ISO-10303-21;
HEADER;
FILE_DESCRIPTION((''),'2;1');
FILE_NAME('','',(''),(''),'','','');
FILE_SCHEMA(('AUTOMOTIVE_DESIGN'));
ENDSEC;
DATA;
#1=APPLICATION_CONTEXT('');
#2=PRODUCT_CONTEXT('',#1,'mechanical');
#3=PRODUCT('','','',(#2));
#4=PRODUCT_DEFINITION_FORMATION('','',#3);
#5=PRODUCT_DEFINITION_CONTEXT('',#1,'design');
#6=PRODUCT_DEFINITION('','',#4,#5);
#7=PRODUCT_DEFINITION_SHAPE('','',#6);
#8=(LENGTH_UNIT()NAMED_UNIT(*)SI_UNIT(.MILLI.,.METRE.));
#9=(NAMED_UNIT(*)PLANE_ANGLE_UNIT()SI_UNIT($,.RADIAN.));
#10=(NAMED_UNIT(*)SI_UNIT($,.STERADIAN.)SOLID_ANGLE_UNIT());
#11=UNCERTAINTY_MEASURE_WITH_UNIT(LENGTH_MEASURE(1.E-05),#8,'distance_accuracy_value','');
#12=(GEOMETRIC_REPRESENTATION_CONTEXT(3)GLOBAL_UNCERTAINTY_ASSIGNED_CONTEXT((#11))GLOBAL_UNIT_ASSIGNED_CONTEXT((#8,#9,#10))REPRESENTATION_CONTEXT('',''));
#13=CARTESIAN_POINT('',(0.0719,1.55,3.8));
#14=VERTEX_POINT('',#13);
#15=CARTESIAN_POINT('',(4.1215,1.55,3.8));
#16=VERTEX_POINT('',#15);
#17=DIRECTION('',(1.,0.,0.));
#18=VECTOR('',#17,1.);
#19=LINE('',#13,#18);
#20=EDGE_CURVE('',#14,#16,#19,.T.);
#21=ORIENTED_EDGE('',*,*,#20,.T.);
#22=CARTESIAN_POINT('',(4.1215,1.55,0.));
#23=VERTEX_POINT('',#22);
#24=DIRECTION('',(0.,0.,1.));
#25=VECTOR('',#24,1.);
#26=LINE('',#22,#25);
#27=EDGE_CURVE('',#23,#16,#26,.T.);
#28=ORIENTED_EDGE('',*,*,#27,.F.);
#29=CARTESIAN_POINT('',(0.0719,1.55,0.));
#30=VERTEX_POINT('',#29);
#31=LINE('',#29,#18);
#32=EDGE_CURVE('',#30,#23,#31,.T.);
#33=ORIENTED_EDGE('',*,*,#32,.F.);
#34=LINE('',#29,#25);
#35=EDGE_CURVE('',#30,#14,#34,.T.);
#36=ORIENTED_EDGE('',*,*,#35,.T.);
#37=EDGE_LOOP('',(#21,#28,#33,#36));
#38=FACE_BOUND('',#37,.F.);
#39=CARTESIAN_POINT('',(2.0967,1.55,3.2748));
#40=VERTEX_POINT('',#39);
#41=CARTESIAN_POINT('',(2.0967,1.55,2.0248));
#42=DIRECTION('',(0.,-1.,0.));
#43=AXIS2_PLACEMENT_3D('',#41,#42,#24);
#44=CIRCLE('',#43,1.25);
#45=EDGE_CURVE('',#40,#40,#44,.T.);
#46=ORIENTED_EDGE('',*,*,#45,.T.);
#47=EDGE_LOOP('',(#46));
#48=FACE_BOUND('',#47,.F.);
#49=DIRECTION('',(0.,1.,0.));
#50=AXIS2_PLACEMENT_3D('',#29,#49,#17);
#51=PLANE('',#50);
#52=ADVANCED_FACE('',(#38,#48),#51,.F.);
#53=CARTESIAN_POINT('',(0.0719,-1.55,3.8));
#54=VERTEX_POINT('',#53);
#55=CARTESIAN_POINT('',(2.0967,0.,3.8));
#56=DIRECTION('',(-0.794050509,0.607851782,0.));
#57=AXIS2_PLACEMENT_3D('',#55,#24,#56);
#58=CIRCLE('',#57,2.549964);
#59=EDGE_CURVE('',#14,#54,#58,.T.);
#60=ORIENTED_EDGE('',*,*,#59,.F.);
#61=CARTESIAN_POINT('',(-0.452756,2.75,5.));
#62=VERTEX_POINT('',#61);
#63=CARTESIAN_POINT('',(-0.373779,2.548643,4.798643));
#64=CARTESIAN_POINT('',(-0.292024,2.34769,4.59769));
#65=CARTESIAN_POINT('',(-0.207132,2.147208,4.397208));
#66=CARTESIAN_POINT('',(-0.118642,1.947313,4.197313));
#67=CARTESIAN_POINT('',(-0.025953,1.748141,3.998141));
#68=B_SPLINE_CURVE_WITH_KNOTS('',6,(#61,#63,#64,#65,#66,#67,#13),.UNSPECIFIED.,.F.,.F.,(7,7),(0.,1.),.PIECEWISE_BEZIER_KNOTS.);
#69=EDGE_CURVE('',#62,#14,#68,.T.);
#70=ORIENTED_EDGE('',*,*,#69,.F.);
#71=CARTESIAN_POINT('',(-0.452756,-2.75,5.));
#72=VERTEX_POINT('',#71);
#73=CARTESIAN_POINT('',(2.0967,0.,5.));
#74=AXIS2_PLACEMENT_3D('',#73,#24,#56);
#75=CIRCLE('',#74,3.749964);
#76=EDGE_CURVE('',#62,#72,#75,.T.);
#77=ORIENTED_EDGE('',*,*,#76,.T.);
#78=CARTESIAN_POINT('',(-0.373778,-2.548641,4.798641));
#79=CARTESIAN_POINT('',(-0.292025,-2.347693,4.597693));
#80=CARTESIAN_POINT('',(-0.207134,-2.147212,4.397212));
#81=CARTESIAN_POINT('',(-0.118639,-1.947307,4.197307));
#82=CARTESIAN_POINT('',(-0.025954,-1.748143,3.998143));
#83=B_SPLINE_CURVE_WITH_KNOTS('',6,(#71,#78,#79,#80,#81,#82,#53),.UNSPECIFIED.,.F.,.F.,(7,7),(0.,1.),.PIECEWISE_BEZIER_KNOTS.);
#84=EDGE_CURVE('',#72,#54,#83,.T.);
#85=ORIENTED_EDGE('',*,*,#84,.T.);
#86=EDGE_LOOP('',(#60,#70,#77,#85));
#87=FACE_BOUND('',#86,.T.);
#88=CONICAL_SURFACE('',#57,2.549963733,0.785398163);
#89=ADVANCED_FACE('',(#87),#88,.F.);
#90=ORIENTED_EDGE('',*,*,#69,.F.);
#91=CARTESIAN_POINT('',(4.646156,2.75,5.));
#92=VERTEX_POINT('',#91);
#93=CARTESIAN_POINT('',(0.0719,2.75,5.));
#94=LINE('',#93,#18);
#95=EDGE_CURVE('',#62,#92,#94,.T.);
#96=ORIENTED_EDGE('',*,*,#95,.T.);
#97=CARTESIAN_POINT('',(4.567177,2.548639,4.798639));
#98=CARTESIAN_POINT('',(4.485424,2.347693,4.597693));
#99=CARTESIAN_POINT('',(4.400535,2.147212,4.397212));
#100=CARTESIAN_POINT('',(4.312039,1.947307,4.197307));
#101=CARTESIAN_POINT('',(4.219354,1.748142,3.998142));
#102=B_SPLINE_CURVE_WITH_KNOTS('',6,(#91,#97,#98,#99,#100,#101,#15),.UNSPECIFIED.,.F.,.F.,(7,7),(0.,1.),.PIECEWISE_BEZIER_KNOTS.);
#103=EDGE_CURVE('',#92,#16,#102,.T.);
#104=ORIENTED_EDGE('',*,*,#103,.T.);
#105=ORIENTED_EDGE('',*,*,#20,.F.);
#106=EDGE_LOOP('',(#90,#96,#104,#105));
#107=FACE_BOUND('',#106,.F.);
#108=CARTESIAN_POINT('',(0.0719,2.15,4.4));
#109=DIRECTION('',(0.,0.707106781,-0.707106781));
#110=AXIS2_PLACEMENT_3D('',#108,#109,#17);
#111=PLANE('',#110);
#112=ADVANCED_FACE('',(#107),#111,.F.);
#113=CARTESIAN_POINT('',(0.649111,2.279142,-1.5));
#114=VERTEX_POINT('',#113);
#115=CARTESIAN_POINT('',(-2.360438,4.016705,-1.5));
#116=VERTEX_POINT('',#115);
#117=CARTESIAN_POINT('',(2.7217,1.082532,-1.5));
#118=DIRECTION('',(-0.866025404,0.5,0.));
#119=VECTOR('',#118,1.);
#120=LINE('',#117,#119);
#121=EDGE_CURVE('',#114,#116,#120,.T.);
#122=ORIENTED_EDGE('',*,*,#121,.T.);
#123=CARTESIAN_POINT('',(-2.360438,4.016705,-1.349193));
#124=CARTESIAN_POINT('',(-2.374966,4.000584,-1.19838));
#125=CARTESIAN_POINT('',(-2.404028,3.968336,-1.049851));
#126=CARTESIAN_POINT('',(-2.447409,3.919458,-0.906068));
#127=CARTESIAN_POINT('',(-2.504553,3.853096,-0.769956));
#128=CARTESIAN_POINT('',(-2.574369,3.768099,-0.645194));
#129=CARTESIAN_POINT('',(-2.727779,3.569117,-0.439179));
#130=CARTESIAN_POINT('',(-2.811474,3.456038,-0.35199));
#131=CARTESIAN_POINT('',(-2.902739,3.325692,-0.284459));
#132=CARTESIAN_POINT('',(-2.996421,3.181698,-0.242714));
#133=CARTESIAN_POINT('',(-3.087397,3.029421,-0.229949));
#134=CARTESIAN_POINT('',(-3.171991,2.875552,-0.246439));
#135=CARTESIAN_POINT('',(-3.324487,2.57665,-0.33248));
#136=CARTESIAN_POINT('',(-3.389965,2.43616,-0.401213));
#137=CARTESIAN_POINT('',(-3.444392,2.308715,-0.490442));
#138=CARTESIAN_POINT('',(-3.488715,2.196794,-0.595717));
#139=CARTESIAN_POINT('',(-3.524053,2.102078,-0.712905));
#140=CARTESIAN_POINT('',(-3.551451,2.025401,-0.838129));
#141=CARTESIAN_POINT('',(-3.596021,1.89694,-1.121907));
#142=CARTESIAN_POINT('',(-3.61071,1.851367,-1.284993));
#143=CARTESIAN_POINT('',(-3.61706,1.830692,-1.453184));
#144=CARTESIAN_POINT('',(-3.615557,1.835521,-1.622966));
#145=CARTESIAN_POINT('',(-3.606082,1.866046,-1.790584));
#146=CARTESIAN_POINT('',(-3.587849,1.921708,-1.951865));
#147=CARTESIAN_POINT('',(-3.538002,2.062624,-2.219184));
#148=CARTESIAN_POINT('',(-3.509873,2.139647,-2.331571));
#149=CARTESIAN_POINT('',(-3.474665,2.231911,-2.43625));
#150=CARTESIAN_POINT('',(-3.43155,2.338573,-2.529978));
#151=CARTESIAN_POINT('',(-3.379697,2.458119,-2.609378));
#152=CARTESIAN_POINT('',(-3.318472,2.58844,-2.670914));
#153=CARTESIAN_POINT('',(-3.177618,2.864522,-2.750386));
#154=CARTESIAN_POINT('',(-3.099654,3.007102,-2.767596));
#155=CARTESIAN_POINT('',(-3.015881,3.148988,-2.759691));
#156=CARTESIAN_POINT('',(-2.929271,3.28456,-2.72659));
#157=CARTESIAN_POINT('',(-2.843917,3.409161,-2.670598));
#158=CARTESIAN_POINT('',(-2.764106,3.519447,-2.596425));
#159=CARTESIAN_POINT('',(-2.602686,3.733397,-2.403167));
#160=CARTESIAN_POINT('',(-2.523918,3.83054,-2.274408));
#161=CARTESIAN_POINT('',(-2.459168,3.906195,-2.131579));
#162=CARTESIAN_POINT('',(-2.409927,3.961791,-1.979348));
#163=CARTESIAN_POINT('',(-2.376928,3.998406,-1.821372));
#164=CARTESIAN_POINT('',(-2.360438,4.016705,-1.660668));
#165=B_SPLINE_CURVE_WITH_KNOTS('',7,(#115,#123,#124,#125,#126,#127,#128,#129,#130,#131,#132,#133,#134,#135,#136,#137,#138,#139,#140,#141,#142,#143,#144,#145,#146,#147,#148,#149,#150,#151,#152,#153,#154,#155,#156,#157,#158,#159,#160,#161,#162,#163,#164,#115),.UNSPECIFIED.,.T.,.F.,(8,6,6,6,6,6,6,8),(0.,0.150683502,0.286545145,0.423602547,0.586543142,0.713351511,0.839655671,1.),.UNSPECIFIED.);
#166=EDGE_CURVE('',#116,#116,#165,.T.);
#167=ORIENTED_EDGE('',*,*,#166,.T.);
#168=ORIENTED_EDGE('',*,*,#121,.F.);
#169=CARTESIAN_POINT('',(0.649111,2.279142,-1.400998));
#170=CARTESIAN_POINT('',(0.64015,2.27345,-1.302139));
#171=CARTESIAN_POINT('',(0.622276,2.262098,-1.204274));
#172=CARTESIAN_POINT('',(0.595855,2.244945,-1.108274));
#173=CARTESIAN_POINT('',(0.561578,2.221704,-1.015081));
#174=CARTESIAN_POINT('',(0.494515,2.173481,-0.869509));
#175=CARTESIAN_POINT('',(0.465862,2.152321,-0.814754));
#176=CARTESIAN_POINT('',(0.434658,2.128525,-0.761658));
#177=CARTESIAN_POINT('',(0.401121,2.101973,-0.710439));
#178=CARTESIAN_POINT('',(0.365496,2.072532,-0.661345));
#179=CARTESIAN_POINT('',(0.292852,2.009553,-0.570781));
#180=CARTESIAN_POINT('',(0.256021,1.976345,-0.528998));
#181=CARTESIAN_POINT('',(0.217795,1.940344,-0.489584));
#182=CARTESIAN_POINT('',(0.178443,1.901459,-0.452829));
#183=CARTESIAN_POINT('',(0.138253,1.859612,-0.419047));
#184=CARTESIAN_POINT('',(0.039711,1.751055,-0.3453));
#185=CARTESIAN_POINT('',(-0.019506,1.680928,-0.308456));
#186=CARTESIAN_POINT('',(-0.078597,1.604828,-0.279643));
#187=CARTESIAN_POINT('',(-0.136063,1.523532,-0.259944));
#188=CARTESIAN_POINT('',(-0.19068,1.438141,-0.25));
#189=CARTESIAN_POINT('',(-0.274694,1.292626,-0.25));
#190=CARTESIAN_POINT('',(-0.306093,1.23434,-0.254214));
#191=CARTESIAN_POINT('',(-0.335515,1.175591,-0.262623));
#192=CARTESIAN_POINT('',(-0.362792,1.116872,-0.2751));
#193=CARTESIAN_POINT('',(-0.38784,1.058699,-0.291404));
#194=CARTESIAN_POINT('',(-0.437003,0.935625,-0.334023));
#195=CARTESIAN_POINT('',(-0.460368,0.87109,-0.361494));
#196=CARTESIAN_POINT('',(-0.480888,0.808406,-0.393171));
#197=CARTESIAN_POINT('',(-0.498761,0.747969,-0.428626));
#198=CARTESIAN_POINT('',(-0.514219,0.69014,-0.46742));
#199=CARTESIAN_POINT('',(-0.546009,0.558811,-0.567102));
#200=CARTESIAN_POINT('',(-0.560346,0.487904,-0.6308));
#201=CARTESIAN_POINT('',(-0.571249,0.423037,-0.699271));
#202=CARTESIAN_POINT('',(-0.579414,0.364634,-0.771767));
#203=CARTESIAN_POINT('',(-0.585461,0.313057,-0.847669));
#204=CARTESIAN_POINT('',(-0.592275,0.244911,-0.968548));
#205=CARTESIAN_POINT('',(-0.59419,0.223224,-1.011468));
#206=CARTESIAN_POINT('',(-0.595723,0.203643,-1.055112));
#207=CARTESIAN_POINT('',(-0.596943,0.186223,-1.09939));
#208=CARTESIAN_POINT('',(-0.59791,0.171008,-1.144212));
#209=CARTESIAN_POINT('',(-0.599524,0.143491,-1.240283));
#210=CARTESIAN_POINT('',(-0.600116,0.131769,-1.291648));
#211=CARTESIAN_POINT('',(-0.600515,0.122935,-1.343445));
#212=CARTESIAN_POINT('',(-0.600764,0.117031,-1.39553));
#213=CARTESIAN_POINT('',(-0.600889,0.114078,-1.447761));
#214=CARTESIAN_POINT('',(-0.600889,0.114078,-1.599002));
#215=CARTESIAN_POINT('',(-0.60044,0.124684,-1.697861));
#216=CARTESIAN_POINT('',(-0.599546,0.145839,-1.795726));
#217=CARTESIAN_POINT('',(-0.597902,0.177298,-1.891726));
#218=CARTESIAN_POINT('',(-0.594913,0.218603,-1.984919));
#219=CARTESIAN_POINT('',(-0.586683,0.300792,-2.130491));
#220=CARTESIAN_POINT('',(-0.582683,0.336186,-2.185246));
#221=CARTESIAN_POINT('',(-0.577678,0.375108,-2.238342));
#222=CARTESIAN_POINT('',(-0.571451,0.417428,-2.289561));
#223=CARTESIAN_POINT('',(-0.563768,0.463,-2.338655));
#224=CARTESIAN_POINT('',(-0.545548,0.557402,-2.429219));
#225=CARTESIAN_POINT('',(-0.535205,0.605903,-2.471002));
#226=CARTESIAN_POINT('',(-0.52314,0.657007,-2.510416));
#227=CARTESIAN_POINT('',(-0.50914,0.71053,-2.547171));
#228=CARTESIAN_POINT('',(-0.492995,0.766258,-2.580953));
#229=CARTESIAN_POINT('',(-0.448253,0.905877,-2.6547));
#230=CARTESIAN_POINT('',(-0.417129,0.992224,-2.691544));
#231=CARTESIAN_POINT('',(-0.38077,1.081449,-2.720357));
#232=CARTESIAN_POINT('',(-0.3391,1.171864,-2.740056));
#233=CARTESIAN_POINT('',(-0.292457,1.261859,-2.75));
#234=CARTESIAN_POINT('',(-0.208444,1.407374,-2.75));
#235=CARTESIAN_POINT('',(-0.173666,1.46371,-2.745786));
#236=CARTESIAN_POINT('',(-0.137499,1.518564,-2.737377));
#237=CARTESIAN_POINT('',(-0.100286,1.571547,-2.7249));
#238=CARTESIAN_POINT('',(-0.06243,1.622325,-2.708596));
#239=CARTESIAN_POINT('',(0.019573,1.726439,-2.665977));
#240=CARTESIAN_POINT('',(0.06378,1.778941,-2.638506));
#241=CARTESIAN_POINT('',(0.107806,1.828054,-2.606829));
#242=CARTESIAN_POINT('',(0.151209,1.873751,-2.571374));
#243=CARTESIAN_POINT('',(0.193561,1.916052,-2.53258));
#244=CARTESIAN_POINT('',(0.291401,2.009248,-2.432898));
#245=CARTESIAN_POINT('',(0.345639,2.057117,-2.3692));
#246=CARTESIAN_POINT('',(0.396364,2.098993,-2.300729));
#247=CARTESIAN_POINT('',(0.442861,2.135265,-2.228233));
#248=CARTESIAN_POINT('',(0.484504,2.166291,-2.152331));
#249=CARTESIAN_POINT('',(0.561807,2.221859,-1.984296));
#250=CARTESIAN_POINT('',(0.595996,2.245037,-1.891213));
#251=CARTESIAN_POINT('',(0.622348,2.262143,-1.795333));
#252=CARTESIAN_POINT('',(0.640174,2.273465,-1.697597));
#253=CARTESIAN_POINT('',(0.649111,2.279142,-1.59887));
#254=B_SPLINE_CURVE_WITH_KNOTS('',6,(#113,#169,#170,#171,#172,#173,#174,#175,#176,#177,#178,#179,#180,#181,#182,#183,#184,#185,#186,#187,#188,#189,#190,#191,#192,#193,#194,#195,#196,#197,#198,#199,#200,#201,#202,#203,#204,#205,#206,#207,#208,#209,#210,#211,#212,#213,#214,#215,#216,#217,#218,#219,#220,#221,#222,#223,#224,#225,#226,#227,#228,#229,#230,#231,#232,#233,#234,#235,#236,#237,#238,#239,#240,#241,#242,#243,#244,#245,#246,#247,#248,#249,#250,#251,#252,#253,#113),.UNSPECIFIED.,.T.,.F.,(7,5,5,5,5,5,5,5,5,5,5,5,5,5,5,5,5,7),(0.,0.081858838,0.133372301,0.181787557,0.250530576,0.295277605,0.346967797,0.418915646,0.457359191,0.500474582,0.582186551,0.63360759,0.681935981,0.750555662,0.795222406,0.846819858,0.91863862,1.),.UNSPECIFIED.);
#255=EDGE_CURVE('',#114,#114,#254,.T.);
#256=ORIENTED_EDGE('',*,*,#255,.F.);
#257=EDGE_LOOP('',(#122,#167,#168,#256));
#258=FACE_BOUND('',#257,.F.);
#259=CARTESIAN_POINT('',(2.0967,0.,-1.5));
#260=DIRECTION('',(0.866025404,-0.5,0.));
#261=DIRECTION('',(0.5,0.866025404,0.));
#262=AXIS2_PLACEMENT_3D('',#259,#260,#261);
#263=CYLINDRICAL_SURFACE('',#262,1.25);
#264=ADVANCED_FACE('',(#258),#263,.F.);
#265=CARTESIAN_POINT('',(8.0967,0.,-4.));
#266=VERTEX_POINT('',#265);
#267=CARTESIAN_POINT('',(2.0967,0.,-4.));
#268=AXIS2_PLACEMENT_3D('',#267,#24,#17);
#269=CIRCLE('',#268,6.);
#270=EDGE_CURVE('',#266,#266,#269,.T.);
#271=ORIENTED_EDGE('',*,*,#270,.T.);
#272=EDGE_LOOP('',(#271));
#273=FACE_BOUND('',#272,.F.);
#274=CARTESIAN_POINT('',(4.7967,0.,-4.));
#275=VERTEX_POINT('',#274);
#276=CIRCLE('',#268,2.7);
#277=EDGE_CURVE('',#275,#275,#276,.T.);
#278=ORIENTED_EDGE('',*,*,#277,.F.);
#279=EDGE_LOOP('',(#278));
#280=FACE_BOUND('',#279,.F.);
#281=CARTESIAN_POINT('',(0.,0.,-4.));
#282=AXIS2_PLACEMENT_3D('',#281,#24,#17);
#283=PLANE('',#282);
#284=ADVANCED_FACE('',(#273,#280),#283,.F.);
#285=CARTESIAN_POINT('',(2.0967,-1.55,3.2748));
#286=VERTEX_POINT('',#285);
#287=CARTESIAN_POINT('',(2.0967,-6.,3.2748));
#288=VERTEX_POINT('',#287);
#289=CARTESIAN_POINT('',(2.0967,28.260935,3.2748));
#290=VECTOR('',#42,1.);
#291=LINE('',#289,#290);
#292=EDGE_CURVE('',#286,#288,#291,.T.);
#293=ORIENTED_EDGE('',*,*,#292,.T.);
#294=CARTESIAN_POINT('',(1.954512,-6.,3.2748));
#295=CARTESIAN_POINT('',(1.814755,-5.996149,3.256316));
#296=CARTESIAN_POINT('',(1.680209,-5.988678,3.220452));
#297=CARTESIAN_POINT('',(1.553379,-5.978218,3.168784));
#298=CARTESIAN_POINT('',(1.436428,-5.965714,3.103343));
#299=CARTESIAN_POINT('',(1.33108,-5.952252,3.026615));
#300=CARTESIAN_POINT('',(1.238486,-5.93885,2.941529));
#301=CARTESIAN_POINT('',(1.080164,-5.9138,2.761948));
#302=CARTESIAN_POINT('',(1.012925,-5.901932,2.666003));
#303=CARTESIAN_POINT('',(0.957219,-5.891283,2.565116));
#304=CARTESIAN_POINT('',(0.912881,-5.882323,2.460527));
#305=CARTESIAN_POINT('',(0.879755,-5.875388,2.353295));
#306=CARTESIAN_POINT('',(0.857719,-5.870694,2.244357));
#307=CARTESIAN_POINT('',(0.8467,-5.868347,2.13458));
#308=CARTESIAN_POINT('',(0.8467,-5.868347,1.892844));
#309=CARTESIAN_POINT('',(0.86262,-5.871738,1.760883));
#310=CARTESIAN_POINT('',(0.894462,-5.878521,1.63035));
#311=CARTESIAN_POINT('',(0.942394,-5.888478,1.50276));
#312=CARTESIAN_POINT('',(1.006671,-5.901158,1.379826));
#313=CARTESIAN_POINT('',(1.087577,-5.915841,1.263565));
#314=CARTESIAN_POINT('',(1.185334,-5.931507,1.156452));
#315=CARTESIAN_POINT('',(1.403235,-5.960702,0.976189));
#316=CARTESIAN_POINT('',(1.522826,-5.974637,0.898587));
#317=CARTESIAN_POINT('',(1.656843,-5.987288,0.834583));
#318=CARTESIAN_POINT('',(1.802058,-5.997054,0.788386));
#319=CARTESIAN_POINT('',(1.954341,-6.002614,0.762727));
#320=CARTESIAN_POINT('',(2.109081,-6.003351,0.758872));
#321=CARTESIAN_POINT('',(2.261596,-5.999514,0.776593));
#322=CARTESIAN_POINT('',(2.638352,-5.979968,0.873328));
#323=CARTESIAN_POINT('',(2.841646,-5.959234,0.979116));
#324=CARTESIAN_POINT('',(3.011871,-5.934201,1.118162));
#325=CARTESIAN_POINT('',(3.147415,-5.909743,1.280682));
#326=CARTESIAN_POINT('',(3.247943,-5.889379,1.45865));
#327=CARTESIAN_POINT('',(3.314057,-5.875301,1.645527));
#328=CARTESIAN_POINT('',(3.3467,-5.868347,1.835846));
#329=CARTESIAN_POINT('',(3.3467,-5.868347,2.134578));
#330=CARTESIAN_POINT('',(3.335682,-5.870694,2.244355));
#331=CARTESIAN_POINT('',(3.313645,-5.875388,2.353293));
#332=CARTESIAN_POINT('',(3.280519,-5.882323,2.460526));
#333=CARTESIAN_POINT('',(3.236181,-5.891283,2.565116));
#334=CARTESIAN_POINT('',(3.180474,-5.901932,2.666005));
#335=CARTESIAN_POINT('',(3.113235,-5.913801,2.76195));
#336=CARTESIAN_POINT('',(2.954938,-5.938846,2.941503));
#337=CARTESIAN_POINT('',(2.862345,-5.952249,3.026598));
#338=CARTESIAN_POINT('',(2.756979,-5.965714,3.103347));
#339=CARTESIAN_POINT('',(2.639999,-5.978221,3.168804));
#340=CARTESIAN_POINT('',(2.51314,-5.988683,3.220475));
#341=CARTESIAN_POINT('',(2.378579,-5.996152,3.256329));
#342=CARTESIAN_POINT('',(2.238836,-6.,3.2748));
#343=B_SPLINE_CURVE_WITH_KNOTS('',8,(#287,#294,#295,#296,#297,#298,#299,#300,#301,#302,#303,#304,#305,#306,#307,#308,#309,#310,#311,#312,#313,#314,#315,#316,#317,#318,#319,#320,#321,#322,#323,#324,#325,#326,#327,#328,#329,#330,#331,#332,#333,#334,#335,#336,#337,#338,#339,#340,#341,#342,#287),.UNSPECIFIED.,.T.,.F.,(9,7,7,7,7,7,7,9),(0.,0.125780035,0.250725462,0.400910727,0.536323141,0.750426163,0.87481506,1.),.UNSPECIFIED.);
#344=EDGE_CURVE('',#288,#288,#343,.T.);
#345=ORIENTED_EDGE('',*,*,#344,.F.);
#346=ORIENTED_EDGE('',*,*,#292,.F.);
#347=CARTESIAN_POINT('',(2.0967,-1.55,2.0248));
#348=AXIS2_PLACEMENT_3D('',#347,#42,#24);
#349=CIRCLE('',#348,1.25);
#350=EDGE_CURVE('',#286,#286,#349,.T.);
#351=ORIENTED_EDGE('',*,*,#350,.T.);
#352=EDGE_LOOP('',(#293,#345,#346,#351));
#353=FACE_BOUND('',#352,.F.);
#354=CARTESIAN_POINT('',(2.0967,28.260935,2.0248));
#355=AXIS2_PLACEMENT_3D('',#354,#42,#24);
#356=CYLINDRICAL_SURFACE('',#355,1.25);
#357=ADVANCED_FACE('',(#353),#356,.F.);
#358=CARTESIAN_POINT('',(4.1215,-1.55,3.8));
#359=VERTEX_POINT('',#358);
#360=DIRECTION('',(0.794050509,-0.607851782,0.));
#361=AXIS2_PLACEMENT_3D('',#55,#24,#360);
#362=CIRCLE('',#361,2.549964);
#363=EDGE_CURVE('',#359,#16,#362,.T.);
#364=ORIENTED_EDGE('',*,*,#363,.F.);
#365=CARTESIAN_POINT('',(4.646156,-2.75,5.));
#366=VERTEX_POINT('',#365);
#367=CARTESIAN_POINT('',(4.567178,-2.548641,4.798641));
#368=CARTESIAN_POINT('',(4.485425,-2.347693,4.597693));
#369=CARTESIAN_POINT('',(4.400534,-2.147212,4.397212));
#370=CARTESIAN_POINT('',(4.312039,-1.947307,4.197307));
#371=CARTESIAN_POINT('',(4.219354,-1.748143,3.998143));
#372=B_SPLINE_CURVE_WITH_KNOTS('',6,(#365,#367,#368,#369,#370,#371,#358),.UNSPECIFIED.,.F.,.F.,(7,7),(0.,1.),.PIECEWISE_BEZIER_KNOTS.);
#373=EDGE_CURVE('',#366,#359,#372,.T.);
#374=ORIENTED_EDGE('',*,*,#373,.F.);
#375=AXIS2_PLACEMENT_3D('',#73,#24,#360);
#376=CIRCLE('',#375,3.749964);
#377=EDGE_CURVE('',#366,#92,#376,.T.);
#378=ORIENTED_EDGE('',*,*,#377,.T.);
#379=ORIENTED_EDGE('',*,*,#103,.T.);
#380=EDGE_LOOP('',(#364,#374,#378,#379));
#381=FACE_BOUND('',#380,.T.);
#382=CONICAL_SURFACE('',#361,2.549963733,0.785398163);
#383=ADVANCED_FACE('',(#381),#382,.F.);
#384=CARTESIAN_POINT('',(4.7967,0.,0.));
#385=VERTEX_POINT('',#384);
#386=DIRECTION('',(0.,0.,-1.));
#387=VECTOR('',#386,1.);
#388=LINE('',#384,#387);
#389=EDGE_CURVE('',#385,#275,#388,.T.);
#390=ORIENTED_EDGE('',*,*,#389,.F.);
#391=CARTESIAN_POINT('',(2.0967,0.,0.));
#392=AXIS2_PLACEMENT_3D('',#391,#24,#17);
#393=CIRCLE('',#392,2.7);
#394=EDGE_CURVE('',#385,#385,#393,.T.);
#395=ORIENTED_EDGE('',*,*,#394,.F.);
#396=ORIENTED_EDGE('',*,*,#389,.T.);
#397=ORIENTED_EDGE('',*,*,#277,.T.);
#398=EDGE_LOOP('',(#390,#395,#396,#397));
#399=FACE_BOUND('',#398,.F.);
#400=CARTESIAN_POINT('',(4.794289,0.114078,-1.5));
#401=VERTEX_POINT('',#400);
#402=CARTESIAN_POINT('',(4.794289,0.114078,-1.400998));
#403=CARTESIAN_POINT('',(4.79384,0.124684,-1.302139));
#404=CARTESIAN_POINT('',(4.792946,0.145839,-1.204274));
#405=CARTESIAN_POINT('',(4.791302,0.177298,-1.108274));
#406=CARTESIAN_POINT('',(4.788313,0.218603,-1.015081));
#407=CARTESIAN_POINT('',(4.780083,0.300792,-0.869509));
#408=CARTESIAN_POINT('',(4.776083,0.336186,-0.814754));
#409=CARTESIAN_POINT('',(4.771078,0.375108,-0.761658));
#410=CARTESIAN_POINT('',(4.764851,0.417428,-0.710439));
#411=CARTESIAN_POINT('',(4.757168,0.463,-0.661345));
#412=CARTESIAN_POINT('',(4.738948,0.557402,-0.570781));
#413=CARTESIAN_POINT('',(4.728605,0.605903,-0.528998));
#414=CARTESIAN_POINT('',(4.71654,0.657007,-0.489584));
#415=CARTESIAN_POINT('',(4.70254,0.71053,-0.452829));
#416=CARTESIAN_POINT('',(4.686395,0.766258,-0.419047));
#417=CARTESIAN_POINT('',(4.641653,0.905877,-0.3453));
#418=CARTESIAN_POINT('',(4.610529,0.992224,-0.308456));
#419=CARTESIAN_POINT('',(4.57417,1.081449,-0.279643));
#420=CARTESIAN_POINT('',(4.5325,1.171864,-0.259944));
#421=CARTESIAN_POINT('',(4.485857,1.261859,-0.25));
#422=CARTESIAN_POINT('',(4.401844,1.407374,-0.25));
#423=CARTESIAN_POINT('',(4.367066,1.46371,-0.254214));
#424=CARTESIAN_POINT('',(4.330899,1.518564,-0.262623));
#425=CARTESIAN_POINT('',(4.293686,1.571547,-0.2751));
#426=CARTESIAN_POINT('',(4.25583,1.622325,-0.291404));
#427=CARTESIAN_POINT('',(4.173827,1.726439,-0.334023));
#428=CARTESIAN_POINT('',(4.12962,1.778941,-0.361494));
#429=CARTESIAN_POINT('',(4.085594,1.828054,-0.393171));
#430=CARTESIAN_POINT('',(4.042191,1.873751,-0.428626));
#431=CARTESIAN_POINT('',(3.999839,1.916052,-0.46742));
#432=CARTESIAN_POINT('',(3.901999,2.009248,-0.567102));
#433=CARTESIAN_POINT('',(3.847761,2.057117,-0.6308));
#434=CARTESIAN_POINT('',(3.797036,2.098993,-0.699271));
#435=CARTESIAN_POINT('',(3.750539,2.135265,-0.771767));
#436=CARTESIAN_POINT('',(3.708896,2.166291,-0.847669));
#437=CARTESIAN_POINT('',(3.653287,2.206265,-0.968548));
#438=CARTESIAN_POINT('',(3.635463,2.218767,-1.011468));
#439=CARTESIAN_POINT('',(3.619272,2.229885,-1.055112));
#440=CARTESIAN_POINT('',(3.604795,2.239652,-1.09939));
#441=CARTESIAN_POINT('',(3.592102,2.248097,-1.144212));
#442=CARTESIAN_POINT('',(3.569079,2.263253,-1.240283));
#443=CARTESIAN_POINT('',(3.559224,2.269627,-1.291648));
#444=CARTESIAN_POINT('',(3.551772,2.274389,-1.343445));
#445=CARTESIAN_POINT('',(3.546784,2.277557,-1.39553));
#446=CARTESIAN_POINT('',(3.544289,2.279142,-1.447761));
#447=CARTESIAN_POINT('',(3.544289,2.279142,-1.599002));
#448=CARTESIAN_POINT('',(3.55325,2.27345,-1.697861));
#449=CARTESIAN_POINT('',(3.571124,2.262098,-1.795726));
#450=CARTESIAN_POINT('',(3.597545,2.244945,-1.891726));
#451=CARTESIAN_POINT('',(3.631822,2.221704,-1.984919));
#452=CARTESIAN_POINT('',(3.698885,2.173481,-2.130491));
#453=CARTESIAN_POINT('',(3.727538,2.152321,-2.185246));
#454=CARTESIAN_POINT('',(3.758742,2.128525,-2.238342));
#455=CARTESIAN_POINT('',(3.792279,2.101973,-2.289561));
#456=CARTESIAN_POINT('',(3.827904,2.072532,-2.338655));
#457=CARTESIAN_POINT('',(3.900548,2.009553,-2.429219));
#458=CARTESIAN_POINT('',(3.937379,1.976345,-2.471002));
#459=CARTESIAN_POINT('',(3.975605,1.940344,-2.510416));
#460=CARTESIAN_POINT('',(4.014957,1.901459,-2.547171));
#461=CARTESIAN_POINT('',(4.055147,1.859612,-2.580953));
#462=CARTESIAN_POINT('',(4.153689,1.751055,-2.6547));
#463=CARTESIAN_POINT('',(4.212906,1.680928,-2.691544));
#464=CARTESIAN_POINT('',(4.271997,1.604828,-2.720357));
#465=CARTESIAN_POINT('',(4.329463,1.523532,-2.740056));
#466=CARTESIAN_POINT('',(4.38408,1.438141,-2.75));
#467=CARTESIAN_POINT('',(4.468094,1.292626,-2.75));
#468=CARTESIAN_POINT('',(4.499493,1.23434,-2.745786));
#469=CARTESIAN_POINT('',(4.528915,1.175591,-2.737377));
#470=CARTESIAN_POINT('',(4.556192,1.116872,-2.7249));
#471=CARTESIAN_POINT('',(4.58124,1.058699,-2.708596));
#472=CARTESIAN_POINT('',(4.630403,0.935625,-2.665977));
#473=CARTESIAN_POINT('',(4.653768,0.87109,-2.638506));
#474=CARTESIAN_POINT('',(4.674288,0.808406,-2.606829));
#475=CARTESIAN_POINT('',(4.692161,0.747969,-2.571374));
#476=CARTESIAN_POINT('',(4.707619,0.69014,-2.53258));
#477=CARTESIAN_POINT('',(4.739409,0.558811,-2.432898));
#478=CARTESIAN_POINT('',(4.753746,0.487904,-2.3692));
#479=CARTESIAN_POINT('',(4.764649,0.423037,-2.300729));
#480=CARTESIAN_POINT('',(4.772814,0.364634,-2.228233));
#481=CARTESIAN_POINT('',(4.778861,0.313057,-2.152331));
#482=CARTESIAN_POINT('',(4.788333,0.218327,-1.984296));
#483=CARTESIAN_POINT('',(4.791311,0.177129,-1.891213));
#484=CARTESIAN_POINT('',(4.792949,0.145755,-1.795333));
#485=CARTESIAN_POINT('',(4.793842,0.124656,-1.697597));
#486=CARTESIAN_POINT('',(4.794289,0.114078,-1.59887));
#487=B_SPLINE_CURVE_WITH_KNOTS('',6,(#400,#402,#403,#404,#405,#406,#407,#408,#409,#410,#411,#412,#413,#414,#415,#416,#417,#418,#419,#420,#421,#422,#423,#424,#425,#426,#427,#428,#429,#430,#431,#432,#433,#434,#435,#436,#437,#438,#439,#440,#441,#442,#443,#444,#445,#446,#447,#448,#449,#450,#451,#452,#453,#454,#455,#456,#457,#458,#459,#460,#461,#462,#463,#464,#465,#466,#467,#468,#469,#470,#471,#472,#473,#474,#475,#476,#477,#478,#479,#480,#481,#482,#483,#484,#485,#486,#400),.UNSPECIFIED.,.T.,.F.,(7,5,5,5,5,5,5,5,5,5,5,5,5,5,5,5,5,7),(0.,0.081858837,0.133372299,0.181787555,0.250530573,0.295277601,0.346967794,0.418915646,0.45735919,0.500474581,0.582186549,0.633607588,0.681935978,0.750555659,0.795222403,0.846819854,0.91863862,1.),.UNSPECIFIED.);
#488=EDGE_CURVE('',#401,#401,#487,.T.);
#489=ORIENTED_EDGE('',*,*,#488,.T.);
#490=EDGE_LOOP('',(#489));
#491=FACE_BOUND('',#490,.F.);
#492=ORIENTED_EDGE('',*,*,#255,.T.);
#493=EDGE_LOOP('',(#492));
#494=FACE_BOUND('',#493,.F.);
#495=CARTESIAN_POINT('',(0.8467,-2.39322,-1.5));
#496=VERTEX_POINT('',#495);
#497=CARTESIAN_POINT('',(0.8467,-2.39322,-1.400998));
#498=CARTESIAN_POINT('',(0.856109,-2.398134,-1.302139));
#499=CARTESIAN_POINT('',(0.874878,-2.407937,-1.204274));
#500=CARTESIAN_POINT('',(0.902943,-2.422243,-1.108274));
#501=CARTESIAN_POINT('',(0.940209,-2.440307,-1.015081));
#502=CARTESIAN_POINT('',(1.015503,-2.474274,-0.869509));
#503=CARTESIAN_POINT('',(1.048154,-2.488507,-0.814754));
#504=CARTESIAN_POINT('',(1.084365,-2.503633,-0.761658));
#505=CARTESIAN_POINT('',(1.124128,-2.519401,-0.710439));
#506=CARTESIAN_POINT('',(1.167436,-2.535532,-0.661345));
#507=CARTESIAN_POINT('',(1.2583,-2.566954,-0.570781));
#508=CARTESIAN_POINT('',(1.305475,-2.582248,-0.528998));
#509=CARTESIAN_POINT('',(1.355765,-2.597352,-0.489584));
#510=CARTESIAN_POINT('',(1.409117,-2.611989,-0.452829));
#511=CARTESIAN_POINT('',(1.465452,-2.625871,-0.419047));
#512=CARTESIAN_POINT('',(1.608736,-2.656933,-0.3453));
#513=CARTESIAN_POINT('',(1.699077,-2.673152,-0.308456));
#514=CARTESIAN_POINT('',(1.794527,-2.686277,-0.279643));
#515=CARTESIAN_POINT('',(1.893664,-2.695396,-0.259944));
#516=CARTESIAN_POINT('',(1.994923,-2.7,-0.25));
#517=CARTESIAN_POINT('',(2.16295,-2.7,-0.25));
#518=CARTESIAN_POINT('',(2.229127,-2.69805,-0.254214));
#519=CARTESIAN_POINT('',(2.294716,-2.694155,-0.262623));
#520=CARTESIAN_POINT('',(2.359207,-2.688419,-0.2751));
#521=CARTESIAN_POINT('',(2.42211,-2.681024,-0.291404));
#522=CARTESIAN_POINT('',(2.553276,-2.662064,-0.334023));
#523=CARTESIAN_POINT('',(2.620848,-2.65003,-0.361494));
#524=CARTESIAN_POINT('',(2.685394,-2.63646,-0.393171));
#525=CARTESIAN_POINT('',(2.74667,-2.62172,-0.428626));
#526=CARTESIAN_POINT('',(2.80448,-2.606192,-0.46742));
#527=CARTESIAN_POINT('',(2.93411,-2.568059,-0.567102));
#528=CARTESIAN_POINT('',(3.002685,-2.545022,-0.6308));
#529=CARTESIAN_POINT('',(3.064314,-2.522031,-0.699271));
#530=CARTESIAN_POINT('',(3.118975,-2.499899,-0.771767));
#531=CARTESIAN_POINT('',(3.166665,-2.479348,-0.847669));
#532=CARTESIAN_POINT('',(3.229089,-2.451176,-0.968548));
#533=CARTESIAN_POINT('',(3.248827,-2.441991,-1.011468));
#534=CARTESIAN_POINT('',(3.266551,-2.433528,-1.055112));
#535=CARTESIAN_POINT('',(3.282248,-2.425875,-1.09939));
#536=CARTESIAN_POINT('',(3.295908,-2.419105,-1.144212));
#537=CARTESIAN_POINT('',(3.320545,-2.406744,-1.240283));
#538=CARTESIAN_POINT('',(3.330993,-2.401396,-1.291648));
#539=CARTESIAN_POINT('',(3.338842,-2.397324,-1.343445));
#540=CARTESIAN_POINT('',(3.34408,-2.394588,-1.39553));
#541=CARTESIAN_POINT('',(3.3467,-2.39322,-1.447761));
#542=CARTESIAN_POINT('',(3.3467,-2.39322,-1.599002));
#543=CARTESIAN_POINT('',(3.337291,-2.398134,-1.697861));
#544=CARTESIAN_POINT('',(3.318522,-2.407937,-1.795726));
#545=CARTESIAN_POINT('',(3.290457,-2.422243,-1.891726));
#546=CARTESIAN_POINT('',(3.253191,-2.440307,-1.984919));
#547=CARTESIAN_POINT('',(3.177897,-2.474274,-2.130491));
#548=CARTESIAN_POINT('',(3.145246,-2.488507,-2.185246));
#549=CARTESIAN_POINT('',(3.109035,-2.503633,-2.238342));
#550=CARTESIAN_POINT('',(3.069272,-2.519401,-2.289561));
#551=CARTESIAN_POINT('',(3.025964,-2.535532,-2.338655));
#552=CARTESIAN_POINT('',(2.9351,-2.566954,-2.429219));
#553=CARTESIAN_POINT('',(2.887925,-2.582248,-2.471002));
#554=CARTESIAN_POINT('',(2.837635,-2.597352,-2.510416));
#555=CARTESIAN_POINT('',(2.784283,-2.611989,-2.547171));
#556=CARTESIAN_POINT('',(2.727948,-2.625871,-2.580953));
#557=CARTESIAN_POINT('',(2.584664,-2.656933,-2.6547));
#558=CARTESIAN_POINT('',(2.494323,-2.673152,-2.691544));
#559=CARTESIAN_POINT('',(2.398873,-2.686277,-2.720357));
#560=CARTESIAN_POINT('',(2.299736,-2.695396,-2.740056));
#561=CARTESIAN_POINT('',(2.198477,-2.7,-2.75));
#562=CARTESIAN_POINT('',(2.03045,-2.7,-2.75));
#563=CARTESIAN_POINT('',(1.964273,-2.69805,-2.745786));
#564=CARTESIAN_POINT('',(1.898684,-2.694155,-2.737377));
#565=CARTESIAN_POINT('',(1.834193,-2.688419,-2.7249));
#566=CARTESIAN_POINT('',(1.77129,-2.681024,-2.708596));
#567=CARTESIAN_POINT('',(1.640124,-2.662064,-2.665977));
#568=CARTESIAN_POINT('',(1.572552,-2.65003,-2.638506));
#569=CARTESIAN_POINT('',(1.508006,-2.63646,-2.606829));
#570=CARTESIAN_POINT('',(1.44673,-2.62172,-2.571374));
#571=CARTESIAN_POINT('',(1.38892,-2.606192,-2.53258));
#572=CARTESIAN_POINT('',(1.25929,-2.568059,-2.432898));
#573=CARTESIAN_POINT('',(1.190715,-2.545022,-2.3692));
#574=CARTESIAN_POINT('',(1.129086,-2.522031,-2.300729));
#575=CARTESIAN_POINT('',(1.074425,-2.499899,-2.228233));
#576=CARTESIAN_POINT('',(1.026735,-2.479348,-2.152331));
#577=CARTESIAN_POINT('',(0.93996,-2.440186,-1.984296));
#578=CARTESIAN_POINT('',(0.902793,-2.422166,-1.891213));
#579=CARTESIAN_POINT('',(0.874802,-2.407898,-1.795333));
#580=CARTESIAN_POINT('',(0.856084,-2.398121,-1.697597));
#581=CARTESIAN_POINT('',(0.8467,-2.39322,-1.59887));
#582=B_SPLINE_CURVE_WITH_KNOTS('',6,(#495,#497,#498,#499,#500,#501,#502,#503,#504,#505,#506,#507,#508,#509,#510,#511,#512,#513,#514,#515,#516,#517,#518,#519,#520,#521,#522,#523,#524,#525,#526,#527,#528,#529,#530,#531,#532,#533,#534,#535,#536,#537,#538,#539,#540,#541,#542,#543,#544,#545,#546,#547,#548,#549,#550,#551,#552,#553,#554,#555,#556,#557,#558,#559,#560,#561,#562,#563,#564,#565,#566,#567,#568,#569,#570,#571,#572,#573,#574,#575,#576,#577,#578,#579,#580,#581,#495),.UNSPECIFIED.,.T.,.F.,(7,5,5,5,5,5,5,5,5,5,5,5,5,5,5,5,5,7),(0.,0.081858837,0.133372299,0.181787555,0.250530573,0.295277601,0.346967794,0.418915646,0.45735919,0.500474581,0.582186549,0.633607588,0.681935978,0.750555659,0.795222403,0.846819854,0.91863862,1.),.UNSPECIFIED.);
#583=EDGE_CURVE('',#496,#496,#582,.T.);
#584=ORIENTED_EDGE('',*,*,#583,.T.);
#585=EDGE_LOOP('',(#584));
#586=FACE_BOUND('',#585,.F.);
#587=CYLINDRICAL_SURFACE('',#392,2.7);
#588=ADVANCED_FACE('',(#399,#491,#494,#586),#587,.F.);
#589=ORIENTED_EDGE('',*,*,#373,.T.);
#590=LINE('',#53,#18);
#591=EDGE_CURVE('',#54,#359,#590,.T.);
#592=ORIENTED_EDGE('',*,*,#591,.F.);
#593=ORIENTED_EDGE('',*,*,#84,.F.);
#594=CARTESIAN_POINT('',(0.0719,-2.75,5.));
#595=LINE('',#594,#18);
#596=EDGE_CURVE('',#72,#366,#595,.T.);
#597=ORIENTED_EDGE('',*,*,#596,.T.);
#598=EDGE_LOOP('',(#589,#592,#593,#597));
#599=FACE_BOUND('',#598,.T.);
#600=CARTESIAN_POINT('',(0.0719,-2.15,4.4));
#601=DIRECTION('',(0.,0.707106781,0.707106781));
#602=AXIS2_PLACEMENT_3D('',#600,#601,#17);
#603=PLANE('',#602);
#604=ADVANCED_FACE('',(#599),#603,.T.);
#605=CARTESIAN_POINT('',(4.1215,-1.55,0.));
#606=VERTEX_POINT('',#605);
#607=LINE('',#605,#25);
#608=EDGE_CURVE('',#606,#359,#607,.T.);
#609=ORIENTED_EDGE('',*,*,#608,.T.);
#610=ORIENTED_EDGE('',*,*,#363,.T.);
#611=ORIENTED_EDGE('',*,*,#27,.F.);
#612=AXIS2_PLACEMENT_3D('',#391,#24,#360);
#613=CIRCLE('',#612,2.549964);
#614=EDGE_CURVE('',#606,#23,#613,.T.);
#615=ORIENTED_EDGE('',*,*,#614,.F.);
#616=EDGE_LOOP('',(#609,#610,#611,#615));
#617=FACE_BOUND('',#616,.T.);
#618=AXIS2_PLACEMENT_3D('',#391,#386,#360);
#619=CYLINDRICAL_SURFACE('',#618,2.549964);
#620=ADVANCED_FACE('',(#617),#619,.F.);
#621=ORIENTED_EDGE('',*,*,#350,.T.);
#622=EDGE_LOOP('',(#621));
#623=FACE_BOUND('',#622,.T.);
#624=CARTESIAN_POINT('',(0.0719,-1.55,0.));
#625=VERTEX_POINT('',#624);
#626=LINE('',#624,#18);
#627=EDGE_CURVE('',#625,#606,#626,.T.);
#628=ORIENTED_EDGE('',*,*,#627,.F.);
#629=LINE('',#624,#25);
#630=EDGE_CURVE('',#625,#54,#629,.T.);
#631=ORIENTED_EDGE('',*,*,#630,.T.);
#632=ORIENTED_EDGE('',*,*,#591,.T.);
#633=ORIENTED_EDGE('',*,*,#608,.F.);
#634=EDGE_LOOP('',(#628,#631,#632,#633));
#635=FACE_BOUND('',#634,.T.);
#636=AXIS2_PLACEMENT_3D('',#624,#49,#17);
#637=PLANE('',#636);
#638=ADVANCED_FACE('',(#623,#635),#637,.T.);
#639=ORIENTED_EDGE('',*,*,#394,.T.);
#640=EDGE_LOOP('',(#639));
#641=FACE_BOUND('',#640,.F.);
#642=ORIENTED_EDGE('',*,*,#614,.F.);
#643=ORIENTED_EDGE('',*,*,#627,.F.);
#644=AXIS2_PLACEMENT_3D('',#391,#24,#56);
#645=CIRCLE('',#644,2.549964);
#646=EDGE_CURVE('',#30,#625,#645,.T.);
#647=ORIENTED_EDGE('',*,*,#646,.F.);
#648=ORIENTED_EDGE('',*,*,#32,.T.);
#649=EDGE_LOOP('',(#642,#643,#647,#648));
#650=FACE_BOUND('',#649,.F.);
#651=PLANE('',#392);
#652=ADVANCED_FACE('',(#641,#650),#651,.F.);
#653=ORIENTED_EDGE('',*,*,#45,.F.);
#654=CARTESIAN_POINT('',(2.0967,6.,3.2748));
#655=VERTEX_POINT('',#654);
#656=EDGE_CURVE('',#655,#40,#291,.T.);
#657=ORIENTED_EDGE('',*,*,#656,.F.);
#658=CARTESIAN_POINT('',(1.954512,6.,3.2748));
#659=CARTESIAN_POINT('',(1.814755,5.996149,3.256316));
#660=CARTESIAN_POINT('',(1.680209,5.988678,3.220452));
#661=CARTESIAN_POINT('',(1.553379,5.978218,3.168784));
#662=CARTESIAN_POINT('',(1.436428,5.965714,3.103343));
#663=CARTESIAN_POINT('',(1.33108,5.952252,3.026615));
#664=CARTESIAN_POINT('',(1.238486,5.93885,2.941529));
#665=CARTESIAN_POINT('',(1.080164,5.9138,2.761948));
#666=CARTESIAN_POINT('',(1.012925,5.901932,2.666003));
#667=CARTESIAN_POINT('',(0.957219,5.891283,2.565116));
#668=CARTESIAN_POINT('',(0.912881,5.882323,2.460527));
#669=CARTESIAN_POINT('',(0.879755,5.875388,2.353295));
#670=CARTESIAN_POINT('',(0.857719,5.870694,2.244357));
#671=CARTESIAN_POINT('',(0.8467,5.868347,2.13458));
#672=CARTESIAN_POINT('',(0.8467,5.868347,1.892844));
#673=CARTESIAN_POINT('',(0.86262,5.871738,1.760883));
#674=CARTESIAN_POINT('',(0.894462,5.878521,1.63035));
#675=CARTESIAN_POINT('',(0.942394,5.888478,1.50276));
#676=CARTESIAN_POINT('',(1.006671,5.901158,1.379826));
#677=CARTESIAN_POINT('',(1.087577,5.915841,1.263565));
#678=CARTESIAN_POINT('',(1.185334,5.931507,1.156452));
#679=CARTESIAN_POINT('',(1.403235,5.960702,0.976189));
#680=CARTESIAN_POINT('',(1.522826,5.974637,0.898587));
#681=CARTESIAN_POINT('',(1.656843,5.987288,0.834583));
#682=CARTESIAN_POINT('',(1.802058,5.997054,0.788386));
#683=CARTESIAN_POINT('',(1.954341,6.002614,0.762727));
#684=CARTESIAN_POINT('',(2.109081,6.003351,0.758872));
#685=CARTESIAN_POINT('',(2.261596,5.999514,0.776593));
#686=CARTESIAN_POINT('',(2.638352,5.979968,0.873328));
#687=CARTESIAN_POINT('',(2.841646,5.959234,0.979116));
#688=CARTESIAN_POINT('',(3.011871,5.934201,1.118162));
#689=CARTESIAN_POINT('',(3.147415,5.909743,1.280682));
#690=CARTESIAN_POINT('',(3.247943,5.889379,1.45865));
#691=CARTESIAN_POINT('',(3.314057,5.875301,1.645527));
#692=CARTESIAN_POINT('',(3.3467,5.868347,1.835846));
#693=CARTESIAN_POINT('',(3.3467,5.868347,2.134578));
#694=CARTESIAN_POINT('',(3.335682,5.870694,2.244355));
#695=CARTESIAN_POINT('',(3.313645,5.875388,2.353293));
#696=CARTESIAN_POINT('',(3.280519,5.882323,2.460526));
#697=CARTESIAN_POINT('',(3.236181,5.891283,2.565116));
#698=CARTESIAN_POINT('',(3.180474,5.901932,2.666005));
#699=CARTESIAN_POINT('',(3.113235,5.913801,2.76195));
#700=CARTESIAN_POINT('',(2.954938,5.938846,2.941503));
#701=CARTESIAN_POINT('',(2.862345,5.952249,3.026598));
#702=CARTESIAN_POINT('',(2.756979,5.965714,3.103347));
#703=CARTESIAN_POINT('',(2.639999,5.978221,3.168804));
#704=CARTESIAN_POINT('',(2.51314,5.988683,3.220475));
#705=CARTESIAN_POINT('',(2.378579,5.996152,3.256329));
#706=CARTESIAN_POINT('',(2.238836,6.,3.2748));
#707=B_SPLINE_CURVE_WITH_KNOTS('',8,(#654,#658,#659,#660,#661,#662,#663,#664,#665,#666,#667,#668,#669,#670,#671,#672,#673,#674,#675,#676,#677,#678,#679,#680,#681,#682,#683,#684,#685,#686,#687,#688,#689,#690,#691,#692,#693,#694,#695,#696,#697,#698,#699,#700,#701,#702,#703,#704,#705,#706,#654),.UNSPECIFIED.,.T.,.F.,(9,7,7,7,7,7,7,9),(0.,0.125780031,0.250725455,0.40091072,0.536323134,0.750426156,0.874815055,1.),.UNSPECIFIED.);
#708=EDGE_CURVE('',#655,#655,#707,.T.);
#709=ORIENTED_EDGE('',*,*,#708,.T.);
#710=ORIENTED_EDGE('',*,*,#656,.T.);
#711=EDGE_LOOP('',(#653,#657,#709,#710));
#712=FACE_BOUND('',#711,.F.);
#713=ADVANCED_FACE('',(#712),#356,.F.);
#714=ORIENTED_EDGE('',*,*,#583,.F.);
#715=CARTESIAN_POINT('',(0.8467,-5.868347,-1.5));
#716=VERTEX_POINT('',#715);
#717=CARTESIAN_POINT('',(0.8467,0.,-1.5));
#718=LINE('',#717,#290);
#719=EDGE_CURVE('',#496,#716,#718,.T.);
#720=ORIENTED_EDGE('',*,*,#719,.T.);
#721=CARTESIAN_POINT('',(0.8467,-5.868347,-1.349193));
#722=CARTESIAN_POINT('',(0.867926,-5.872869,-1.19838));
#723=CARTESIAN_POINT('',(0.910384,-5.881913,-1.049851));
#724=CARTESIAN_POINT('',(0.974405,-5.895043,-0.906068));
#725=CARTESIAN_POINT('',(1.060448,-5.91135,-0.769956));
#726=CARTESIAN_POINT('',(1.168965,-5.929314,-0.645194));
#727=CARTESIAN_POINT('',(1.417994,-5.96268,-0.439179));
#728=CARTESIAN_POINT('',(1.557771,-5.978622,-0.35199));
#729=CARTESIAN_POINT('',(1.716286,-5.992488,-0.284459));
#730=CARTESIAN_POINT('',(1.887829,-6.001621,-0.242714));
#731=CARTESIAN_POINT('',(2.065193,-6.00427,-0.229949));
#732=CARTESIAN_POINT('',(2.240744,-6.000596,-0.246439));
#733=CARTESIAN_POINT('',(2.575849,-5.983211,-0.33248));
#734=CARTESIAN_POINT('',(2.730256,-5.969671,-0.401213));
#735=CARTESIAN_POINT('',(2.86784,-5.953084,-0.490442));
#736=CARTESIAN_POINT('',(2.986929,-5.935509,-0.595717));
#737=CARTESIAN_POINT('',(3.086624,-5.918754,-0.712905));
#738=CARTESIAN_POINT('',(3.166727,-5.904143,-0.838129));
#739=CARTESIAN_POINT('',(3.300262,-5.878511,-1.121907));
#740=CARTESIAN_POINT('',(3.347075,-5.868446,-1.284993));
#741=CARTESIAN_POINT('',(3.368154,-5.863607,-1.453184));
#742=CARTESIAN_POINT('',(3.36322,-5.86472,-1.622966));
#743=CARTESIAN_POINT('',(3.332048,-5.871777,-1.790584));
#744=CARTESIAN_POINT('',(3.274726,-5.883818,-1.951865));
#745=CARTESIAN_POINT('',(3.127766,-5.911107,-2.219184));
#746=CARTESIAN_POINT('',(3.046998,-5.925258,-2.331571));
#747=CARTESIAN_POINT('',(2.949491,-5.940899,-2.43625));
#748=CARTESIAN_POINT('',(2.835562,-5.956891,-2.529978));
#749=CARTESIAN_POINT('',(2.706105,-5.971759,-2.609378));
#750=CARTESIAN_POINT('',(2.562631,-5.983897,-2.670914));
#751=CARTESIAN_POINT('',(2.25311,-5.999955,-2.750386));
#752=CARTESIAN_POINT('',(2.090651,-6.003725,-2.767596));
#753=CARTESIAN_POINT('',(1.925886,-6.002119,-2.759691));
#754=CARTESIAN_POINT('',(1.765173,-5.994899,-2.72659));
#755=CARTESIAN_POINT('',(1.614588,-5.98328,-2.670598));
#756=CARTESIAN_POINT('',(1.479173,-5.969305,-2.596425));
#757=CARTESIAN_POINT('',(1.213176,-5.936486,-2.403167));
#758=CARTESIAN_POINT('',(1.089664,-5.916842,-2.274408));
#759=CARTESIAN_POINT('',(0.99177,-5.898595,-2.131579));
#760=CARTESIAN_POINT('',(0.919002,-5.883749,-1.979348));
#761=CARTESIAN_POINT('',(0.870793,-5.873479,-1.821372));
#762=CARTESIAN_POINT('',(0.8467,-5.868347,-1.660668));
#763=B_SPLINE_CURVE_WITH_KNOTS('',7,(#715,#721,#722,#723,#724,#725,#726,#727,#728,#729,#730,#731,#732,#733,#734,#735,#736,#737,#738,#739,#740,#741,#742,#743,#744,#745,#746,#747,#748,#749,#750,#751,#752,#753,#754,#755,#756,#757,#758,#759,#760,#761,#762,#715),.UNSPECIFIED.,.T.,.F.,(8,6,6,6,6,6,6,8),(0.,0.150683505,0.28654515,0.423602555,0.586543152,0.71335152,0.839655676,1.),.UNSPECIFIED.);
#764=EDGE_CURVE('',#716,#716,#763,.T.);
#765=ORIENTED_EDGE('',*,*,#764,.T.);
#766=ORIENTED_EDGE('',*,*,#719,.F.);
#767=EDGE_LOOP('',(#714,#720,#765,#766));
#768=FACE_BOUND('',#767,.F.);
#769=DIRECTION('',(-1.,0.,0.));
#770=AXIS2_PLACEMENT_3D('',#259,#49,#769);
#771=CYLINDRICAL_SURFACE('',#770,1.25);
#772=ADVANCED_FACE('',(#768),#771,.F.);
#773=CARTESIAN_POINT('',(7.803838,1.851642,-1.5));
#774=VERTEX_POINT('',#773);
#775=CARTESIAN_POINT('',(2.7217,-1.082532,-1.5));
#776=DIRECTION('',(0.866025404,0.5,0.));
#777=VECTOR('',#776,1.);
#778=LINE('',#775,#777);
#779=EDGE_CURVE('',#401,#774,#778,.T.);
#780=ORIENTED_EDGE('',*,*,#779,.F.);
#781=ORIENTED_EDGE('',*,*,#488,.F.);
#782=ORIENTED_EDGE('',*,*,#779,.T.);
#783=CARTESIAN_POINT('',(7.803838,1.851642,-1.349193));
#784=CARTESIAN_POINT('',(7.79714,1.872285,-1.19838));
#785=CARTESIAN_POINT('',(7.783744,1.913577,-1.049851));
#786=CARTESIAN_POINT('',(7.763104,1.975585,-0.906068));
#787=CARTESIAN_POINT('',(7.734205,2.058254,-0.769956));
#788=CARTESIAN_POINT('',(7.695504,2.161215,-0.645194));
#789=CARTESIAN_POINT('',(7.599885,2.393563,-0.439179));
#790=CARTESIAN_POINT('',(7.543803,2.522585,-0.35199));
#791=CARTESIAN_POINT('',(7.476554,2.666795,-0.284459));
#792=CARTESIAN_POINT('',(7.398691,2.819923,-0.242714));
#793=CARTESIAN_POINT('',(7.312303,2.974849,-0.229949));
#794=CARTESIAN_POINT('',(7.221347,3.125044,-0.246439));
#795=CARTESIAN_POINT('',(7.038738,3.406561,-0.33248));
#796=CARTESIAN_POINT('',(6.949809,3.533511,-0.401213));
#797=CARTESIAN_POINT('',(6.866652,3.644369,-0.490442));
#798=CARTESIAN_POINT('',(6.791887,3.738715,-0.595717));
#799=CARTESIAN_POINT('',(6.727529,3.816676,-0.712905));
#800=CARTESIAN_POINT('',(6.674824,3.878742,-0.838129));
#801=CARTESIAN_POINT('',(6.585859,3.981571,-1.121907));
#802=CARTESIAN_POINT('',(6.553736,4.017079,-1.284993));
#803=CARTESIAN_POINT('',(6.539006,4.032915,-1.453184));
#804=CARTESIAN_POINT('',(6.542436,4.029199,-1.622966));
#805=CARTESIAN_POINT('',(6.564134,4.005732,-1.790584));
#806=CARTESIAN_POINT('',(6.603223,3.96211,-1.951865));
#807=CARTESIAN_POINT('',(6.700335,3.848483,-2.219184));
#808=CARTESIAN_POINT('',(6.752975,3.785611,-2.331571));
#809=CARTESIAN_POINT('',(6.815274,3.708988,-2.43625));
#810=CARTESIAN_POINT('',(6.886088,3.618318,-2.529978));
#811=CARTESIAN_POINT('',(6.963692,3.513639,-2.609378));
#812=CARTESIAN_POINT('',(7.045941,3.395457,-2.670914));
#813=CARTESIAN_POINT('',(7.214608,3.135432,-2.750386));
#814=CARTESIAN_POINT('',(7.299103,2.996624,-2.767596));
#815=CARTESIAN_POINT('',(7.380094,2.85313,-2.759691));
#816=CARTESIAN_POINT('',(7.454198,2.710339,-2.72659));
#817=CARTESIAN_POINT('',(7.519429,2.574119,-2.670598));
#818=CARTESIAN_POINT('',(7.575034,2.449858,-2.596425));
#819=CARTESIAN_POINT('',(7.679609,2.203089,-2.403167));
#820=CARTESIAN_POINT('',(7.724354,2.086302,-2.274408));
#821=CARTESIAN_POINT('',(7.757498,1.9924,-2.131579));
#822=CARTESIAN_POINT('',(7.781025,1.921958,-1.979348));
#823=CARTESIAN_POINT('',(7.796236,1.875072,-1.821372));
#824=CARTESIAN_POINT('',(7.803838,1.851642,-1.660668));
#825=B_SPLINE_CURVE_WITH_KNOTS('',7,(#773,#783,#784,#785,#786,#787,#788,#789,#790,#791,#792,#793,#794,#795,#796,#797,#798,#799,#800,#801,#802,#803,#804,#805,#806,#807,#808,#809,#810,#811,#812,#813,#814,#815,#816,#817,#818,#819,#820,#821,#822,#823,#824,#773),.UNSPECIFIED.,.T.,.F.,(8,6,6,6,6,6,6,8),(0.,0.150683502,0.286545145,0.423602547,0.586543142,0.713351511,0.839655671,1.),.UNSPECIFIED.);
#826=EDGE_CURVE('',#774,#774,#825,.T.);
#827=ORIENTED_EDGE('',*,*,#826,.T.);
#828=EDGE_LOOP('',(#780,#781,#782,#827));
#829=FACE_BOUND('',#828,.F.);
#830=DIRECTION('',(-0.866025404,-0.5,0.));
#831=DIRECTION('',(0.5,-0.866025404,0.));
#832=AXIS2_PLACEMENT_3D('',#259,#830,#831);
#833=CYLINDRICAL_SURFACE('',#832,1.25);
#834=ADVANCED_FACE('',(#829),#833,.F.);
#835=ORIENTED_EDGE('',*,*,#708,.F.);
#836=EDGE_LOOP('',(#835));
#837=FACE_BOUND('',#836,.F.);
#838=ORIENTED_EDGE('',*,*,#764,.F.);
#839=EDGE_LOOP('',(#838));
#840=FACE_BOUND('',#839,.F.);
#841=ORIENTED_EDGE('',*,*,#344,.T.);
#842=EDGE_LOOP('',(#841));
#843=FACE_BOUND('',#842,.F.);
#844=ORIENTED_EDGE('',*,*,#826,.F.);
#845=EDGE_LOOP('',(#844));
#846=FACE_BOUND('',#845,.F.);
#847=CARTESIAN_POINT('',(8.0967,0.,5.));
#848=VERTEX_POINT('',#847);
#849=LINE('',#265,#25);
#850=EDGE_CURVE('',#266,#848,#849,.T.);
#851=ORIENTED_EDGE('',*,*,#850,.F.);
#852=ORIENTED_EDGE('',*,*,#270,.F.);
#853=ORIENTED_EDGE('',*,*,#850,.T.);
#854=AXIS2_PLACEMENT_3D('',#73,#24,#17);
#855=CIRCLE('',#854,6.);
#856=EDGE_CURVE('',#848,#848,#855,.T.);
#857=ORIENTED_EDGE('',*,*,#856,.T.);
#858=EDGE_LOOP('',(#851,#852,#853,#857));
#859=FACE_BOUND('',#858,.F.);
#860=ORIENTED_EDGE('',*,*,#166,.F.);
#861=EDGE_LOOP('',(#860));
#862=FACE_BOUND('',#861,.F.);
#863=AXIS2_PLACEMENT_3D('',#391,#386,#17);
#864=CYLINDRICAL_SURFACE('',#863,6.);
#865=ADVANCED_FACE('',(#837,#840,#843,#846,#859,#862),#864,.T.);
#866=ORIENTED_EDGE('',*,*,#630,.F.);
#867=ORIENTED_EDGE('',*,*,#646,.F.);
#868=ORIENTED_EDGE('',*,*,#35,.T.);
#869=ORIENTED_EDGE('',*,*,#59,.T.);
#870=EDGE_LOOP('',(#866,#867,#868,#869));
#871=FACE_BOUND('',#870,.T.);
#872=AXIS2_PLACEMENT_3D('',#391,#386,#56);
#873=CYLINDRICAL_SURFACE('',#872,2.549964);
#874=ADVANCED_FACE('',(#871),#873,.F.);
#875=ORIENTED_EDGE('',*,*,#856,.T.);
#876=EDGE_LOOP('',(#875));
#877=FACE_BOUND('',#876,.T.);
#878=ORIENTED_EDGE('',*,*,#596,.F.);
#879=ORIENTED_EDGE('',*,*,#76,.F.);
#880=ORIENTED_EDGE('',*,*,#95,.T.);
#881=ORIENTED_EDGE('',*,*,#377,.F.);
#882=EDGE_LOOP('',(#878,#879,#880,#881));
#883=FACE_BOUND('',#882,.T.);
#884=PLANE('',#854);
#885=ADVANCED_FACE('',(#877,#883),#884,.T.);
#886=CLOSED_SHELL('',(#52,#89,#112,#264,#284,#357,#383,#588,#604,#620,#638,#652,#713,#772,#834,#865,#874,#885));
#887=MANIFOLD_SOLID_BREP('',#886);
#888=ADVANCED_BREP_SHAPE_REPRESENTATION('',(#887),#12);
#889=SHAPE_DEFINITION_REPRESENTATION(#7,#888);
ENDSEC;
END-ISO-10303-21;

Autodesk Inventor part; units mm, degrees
ref_plane "YZ Plane" through (0, 0, 0) normal (1, 0, 0) x (0, 1, 0)
ref_plane "XZ Plane" through (0, 0, 0) normal (0, 1, 0) x (-1, 0, 0)
sketch "Sketch1" plane through (0, 0, 0) normal (0, 0, 1) x (1, 0, 0)
  line L0 (0.8467, -0.7217) -> (0.8467, 0.7217) construction
  line L1 (0.8467, 0.7217) -> (2.0967, 1.4434) construction
  line L2 (2.0967, 1.4434) -> (3.3467, 0.7217) construction
  line L3 (3.3467, 0.7217) -> (3.3467, -0.7217) construction
  line L4 (3.3467, -0.7217) -> (2.0967, -1.4434) construction
  line L5 (2.0967, -1.4434) -> (0.8467, -0.7217) construction
  circle A0 centre (2.0967, 0) radius 2.45 construction
  line L6 (4.8467, -1.5877) -> (3.4717, -2.3816) construction
  line L7 (15.0967, 3) -> (15.0967, -3) construction
  line L8 (-10.9033, 3) -> (-10.9033, -3) construction
  line L9 (-0.6533, 0) -> (-0.6533, 1.5877) construction
  circle A1 centre (2.0967, 0) radius 5
  circle A2 centre (2.0967, 0) radius 1.7 projected
  line L10 (-10.9033, -3) -> (15.0967, -3) projected
  line L11 (-10.9033, 3) -> (15.0967, 3) projected
  circle A3 centre (2.0967, 0) radius 2.7
  circle A4 centre (2.0967, 0) radius 6
  circle A5 centre (2.0967, 0) radius 2.75
  point P0 (0.4719, -0.5)
  point P1 (3.7215, -0.5)
  dimension "d10" = 5.4
  dimension "d13" = 12
ref_plane "Work Plane1" through (-20.8033, -6.3, -5.9) normal (0, 0, 1) x (1, 0, 0)
extrude "Extrusion1" add sketch "Sketch1" against normal blind 4 contours A1 L10 L11 | A1 L11 A4 L10 | L11 A1 | A1 L11 A4 | L10 A4 A1 | A1 L10 | A1 L10 A4 L11 | A5
sketch "Sketch2" plane through (2.0967, 0, 0) normal (0, 0, 1) x (1, 0, 0)
  line L0 (-2, 1.5) -> (2, 1.5) construction
  arc A0 (2.5, 0) -> (2, 1.5) centre (0, 0) ccw construction
  arc A1 (-2, 1.5) -> (-2.5, 0) centre (0, 0) ccw construction
  line L1 (2, -1.5) -> (-2, -1.5) construction
  arc A2 (-2.5, 0) -> (2.5, 0) centre (0, 0) ccw construction
  line L2 (2.0248, 1.55) -> (-2.0248, 1.55) construction
  arc A3 (-2.0248, 1.55) -> (-2.55, 0) centre (0, 0) ccw construction
  arc A4 (-2.55, 0) -> (2.55, 0) centre (0, 0) ccw construction
  arc A5 (2.55, 0) -> (2.0248, 1.55) centre (0, 0) ccw construction
  line L3 (-2.0248, 1.55) -> (2.0248, 1.55) construction
  line L4 (-2.0248, 1.55) -> (2.0248, 1.55)
  line L5 (-2.0248, -1.55) -> (2.0248, -1.55)
  arc A6 (-2.0248, 1.55) -> (-2.0248, -1.55) centre (0, 0) ccw
  arc A7 (2.0248, -1.55) -> (2.0248, 1.55) centre (0, 0) ccw
  circle A8 centre (0, 0) radius 6 projected
  point P0 (-2.0967, 0)
  dimension "d11" = 3.1
  dimension "d12" = 2.55
extrude "Extrusion2" add sketch "Sketch2" along normal blind 5
chamfer "Chamfer1" distance 1.2 angle 45 4 edges at (2.0967, 1.55, 5) (-0.4533, 0, 5) (2.0967, -1.55, 5) (4.6467, 0, 5)
sketch "Sketch3" plane through (0, 0, 0) normal (0, 1, 0) x (-1, 0, 0)
  line L0 (-4.6467, 0) -> (-4.6467, 3.8) projected
  line L1 (0.4533, 0) -> (0.4533, 3.8) projected
  line L2 (-8.0967, -4) -> (3.9033, -4) projected
  circle A0 centre (-2.0967, -1.5) radius 1.25
  line L3 (-8.0967, -4) -> (3.9033, -4) projected
  point P0 (0, 0)
  point P1 (-8.5967, 0)
  point P2 (4.4033, 0)
  dimension "d14" = 2.5
  dimension "d15" = 2.5
extrude "Extrusion3" cut sketch "Sketch3" against normal blind 10
pattern_circular "Circular Pattern1" count 3 over 360 about axis through (2.0967, 0, 0) along (0, 0, -1) of "Extrusion3"
sketch "Sketch4" plane through (0.0718, -1.55, 0) normal (0, 1, 0) x (1, 0, 0)
  line L0 (0, -3.8) -> (4.0497, -3.8) projected
  line L1 (-3.9752, -5) -> (8.0248, -5) projected
  line L2 (8.0248, 4) -> (-3.9752, 4) projected
  line L3 (4.0497, -3.8) -> (0, -3.8) projected
  line L4 (4.0497, 0) -> (4.0497, -3.8) projected
  line L5 (0, 0) -> (4.0497, 0) projected
  line L6 (0, 0) -> (0, -3.8) projected
  circle A0 centre (2.0248, -2.0248) radius 2.0248
  point P0 (-0.0718, 0)
  point P1 (7.732, 1.5)
  point P2 (-2.4323, 1.5)
  point P3 (0.7748, 1.5)
hole "Hole1" at (2.0967, -1.55, 2.0248) direction (0, -1, 0) diameter 2.5 end through all both
properties part number "30_Coupling_Screw_28BYJ_M3"
